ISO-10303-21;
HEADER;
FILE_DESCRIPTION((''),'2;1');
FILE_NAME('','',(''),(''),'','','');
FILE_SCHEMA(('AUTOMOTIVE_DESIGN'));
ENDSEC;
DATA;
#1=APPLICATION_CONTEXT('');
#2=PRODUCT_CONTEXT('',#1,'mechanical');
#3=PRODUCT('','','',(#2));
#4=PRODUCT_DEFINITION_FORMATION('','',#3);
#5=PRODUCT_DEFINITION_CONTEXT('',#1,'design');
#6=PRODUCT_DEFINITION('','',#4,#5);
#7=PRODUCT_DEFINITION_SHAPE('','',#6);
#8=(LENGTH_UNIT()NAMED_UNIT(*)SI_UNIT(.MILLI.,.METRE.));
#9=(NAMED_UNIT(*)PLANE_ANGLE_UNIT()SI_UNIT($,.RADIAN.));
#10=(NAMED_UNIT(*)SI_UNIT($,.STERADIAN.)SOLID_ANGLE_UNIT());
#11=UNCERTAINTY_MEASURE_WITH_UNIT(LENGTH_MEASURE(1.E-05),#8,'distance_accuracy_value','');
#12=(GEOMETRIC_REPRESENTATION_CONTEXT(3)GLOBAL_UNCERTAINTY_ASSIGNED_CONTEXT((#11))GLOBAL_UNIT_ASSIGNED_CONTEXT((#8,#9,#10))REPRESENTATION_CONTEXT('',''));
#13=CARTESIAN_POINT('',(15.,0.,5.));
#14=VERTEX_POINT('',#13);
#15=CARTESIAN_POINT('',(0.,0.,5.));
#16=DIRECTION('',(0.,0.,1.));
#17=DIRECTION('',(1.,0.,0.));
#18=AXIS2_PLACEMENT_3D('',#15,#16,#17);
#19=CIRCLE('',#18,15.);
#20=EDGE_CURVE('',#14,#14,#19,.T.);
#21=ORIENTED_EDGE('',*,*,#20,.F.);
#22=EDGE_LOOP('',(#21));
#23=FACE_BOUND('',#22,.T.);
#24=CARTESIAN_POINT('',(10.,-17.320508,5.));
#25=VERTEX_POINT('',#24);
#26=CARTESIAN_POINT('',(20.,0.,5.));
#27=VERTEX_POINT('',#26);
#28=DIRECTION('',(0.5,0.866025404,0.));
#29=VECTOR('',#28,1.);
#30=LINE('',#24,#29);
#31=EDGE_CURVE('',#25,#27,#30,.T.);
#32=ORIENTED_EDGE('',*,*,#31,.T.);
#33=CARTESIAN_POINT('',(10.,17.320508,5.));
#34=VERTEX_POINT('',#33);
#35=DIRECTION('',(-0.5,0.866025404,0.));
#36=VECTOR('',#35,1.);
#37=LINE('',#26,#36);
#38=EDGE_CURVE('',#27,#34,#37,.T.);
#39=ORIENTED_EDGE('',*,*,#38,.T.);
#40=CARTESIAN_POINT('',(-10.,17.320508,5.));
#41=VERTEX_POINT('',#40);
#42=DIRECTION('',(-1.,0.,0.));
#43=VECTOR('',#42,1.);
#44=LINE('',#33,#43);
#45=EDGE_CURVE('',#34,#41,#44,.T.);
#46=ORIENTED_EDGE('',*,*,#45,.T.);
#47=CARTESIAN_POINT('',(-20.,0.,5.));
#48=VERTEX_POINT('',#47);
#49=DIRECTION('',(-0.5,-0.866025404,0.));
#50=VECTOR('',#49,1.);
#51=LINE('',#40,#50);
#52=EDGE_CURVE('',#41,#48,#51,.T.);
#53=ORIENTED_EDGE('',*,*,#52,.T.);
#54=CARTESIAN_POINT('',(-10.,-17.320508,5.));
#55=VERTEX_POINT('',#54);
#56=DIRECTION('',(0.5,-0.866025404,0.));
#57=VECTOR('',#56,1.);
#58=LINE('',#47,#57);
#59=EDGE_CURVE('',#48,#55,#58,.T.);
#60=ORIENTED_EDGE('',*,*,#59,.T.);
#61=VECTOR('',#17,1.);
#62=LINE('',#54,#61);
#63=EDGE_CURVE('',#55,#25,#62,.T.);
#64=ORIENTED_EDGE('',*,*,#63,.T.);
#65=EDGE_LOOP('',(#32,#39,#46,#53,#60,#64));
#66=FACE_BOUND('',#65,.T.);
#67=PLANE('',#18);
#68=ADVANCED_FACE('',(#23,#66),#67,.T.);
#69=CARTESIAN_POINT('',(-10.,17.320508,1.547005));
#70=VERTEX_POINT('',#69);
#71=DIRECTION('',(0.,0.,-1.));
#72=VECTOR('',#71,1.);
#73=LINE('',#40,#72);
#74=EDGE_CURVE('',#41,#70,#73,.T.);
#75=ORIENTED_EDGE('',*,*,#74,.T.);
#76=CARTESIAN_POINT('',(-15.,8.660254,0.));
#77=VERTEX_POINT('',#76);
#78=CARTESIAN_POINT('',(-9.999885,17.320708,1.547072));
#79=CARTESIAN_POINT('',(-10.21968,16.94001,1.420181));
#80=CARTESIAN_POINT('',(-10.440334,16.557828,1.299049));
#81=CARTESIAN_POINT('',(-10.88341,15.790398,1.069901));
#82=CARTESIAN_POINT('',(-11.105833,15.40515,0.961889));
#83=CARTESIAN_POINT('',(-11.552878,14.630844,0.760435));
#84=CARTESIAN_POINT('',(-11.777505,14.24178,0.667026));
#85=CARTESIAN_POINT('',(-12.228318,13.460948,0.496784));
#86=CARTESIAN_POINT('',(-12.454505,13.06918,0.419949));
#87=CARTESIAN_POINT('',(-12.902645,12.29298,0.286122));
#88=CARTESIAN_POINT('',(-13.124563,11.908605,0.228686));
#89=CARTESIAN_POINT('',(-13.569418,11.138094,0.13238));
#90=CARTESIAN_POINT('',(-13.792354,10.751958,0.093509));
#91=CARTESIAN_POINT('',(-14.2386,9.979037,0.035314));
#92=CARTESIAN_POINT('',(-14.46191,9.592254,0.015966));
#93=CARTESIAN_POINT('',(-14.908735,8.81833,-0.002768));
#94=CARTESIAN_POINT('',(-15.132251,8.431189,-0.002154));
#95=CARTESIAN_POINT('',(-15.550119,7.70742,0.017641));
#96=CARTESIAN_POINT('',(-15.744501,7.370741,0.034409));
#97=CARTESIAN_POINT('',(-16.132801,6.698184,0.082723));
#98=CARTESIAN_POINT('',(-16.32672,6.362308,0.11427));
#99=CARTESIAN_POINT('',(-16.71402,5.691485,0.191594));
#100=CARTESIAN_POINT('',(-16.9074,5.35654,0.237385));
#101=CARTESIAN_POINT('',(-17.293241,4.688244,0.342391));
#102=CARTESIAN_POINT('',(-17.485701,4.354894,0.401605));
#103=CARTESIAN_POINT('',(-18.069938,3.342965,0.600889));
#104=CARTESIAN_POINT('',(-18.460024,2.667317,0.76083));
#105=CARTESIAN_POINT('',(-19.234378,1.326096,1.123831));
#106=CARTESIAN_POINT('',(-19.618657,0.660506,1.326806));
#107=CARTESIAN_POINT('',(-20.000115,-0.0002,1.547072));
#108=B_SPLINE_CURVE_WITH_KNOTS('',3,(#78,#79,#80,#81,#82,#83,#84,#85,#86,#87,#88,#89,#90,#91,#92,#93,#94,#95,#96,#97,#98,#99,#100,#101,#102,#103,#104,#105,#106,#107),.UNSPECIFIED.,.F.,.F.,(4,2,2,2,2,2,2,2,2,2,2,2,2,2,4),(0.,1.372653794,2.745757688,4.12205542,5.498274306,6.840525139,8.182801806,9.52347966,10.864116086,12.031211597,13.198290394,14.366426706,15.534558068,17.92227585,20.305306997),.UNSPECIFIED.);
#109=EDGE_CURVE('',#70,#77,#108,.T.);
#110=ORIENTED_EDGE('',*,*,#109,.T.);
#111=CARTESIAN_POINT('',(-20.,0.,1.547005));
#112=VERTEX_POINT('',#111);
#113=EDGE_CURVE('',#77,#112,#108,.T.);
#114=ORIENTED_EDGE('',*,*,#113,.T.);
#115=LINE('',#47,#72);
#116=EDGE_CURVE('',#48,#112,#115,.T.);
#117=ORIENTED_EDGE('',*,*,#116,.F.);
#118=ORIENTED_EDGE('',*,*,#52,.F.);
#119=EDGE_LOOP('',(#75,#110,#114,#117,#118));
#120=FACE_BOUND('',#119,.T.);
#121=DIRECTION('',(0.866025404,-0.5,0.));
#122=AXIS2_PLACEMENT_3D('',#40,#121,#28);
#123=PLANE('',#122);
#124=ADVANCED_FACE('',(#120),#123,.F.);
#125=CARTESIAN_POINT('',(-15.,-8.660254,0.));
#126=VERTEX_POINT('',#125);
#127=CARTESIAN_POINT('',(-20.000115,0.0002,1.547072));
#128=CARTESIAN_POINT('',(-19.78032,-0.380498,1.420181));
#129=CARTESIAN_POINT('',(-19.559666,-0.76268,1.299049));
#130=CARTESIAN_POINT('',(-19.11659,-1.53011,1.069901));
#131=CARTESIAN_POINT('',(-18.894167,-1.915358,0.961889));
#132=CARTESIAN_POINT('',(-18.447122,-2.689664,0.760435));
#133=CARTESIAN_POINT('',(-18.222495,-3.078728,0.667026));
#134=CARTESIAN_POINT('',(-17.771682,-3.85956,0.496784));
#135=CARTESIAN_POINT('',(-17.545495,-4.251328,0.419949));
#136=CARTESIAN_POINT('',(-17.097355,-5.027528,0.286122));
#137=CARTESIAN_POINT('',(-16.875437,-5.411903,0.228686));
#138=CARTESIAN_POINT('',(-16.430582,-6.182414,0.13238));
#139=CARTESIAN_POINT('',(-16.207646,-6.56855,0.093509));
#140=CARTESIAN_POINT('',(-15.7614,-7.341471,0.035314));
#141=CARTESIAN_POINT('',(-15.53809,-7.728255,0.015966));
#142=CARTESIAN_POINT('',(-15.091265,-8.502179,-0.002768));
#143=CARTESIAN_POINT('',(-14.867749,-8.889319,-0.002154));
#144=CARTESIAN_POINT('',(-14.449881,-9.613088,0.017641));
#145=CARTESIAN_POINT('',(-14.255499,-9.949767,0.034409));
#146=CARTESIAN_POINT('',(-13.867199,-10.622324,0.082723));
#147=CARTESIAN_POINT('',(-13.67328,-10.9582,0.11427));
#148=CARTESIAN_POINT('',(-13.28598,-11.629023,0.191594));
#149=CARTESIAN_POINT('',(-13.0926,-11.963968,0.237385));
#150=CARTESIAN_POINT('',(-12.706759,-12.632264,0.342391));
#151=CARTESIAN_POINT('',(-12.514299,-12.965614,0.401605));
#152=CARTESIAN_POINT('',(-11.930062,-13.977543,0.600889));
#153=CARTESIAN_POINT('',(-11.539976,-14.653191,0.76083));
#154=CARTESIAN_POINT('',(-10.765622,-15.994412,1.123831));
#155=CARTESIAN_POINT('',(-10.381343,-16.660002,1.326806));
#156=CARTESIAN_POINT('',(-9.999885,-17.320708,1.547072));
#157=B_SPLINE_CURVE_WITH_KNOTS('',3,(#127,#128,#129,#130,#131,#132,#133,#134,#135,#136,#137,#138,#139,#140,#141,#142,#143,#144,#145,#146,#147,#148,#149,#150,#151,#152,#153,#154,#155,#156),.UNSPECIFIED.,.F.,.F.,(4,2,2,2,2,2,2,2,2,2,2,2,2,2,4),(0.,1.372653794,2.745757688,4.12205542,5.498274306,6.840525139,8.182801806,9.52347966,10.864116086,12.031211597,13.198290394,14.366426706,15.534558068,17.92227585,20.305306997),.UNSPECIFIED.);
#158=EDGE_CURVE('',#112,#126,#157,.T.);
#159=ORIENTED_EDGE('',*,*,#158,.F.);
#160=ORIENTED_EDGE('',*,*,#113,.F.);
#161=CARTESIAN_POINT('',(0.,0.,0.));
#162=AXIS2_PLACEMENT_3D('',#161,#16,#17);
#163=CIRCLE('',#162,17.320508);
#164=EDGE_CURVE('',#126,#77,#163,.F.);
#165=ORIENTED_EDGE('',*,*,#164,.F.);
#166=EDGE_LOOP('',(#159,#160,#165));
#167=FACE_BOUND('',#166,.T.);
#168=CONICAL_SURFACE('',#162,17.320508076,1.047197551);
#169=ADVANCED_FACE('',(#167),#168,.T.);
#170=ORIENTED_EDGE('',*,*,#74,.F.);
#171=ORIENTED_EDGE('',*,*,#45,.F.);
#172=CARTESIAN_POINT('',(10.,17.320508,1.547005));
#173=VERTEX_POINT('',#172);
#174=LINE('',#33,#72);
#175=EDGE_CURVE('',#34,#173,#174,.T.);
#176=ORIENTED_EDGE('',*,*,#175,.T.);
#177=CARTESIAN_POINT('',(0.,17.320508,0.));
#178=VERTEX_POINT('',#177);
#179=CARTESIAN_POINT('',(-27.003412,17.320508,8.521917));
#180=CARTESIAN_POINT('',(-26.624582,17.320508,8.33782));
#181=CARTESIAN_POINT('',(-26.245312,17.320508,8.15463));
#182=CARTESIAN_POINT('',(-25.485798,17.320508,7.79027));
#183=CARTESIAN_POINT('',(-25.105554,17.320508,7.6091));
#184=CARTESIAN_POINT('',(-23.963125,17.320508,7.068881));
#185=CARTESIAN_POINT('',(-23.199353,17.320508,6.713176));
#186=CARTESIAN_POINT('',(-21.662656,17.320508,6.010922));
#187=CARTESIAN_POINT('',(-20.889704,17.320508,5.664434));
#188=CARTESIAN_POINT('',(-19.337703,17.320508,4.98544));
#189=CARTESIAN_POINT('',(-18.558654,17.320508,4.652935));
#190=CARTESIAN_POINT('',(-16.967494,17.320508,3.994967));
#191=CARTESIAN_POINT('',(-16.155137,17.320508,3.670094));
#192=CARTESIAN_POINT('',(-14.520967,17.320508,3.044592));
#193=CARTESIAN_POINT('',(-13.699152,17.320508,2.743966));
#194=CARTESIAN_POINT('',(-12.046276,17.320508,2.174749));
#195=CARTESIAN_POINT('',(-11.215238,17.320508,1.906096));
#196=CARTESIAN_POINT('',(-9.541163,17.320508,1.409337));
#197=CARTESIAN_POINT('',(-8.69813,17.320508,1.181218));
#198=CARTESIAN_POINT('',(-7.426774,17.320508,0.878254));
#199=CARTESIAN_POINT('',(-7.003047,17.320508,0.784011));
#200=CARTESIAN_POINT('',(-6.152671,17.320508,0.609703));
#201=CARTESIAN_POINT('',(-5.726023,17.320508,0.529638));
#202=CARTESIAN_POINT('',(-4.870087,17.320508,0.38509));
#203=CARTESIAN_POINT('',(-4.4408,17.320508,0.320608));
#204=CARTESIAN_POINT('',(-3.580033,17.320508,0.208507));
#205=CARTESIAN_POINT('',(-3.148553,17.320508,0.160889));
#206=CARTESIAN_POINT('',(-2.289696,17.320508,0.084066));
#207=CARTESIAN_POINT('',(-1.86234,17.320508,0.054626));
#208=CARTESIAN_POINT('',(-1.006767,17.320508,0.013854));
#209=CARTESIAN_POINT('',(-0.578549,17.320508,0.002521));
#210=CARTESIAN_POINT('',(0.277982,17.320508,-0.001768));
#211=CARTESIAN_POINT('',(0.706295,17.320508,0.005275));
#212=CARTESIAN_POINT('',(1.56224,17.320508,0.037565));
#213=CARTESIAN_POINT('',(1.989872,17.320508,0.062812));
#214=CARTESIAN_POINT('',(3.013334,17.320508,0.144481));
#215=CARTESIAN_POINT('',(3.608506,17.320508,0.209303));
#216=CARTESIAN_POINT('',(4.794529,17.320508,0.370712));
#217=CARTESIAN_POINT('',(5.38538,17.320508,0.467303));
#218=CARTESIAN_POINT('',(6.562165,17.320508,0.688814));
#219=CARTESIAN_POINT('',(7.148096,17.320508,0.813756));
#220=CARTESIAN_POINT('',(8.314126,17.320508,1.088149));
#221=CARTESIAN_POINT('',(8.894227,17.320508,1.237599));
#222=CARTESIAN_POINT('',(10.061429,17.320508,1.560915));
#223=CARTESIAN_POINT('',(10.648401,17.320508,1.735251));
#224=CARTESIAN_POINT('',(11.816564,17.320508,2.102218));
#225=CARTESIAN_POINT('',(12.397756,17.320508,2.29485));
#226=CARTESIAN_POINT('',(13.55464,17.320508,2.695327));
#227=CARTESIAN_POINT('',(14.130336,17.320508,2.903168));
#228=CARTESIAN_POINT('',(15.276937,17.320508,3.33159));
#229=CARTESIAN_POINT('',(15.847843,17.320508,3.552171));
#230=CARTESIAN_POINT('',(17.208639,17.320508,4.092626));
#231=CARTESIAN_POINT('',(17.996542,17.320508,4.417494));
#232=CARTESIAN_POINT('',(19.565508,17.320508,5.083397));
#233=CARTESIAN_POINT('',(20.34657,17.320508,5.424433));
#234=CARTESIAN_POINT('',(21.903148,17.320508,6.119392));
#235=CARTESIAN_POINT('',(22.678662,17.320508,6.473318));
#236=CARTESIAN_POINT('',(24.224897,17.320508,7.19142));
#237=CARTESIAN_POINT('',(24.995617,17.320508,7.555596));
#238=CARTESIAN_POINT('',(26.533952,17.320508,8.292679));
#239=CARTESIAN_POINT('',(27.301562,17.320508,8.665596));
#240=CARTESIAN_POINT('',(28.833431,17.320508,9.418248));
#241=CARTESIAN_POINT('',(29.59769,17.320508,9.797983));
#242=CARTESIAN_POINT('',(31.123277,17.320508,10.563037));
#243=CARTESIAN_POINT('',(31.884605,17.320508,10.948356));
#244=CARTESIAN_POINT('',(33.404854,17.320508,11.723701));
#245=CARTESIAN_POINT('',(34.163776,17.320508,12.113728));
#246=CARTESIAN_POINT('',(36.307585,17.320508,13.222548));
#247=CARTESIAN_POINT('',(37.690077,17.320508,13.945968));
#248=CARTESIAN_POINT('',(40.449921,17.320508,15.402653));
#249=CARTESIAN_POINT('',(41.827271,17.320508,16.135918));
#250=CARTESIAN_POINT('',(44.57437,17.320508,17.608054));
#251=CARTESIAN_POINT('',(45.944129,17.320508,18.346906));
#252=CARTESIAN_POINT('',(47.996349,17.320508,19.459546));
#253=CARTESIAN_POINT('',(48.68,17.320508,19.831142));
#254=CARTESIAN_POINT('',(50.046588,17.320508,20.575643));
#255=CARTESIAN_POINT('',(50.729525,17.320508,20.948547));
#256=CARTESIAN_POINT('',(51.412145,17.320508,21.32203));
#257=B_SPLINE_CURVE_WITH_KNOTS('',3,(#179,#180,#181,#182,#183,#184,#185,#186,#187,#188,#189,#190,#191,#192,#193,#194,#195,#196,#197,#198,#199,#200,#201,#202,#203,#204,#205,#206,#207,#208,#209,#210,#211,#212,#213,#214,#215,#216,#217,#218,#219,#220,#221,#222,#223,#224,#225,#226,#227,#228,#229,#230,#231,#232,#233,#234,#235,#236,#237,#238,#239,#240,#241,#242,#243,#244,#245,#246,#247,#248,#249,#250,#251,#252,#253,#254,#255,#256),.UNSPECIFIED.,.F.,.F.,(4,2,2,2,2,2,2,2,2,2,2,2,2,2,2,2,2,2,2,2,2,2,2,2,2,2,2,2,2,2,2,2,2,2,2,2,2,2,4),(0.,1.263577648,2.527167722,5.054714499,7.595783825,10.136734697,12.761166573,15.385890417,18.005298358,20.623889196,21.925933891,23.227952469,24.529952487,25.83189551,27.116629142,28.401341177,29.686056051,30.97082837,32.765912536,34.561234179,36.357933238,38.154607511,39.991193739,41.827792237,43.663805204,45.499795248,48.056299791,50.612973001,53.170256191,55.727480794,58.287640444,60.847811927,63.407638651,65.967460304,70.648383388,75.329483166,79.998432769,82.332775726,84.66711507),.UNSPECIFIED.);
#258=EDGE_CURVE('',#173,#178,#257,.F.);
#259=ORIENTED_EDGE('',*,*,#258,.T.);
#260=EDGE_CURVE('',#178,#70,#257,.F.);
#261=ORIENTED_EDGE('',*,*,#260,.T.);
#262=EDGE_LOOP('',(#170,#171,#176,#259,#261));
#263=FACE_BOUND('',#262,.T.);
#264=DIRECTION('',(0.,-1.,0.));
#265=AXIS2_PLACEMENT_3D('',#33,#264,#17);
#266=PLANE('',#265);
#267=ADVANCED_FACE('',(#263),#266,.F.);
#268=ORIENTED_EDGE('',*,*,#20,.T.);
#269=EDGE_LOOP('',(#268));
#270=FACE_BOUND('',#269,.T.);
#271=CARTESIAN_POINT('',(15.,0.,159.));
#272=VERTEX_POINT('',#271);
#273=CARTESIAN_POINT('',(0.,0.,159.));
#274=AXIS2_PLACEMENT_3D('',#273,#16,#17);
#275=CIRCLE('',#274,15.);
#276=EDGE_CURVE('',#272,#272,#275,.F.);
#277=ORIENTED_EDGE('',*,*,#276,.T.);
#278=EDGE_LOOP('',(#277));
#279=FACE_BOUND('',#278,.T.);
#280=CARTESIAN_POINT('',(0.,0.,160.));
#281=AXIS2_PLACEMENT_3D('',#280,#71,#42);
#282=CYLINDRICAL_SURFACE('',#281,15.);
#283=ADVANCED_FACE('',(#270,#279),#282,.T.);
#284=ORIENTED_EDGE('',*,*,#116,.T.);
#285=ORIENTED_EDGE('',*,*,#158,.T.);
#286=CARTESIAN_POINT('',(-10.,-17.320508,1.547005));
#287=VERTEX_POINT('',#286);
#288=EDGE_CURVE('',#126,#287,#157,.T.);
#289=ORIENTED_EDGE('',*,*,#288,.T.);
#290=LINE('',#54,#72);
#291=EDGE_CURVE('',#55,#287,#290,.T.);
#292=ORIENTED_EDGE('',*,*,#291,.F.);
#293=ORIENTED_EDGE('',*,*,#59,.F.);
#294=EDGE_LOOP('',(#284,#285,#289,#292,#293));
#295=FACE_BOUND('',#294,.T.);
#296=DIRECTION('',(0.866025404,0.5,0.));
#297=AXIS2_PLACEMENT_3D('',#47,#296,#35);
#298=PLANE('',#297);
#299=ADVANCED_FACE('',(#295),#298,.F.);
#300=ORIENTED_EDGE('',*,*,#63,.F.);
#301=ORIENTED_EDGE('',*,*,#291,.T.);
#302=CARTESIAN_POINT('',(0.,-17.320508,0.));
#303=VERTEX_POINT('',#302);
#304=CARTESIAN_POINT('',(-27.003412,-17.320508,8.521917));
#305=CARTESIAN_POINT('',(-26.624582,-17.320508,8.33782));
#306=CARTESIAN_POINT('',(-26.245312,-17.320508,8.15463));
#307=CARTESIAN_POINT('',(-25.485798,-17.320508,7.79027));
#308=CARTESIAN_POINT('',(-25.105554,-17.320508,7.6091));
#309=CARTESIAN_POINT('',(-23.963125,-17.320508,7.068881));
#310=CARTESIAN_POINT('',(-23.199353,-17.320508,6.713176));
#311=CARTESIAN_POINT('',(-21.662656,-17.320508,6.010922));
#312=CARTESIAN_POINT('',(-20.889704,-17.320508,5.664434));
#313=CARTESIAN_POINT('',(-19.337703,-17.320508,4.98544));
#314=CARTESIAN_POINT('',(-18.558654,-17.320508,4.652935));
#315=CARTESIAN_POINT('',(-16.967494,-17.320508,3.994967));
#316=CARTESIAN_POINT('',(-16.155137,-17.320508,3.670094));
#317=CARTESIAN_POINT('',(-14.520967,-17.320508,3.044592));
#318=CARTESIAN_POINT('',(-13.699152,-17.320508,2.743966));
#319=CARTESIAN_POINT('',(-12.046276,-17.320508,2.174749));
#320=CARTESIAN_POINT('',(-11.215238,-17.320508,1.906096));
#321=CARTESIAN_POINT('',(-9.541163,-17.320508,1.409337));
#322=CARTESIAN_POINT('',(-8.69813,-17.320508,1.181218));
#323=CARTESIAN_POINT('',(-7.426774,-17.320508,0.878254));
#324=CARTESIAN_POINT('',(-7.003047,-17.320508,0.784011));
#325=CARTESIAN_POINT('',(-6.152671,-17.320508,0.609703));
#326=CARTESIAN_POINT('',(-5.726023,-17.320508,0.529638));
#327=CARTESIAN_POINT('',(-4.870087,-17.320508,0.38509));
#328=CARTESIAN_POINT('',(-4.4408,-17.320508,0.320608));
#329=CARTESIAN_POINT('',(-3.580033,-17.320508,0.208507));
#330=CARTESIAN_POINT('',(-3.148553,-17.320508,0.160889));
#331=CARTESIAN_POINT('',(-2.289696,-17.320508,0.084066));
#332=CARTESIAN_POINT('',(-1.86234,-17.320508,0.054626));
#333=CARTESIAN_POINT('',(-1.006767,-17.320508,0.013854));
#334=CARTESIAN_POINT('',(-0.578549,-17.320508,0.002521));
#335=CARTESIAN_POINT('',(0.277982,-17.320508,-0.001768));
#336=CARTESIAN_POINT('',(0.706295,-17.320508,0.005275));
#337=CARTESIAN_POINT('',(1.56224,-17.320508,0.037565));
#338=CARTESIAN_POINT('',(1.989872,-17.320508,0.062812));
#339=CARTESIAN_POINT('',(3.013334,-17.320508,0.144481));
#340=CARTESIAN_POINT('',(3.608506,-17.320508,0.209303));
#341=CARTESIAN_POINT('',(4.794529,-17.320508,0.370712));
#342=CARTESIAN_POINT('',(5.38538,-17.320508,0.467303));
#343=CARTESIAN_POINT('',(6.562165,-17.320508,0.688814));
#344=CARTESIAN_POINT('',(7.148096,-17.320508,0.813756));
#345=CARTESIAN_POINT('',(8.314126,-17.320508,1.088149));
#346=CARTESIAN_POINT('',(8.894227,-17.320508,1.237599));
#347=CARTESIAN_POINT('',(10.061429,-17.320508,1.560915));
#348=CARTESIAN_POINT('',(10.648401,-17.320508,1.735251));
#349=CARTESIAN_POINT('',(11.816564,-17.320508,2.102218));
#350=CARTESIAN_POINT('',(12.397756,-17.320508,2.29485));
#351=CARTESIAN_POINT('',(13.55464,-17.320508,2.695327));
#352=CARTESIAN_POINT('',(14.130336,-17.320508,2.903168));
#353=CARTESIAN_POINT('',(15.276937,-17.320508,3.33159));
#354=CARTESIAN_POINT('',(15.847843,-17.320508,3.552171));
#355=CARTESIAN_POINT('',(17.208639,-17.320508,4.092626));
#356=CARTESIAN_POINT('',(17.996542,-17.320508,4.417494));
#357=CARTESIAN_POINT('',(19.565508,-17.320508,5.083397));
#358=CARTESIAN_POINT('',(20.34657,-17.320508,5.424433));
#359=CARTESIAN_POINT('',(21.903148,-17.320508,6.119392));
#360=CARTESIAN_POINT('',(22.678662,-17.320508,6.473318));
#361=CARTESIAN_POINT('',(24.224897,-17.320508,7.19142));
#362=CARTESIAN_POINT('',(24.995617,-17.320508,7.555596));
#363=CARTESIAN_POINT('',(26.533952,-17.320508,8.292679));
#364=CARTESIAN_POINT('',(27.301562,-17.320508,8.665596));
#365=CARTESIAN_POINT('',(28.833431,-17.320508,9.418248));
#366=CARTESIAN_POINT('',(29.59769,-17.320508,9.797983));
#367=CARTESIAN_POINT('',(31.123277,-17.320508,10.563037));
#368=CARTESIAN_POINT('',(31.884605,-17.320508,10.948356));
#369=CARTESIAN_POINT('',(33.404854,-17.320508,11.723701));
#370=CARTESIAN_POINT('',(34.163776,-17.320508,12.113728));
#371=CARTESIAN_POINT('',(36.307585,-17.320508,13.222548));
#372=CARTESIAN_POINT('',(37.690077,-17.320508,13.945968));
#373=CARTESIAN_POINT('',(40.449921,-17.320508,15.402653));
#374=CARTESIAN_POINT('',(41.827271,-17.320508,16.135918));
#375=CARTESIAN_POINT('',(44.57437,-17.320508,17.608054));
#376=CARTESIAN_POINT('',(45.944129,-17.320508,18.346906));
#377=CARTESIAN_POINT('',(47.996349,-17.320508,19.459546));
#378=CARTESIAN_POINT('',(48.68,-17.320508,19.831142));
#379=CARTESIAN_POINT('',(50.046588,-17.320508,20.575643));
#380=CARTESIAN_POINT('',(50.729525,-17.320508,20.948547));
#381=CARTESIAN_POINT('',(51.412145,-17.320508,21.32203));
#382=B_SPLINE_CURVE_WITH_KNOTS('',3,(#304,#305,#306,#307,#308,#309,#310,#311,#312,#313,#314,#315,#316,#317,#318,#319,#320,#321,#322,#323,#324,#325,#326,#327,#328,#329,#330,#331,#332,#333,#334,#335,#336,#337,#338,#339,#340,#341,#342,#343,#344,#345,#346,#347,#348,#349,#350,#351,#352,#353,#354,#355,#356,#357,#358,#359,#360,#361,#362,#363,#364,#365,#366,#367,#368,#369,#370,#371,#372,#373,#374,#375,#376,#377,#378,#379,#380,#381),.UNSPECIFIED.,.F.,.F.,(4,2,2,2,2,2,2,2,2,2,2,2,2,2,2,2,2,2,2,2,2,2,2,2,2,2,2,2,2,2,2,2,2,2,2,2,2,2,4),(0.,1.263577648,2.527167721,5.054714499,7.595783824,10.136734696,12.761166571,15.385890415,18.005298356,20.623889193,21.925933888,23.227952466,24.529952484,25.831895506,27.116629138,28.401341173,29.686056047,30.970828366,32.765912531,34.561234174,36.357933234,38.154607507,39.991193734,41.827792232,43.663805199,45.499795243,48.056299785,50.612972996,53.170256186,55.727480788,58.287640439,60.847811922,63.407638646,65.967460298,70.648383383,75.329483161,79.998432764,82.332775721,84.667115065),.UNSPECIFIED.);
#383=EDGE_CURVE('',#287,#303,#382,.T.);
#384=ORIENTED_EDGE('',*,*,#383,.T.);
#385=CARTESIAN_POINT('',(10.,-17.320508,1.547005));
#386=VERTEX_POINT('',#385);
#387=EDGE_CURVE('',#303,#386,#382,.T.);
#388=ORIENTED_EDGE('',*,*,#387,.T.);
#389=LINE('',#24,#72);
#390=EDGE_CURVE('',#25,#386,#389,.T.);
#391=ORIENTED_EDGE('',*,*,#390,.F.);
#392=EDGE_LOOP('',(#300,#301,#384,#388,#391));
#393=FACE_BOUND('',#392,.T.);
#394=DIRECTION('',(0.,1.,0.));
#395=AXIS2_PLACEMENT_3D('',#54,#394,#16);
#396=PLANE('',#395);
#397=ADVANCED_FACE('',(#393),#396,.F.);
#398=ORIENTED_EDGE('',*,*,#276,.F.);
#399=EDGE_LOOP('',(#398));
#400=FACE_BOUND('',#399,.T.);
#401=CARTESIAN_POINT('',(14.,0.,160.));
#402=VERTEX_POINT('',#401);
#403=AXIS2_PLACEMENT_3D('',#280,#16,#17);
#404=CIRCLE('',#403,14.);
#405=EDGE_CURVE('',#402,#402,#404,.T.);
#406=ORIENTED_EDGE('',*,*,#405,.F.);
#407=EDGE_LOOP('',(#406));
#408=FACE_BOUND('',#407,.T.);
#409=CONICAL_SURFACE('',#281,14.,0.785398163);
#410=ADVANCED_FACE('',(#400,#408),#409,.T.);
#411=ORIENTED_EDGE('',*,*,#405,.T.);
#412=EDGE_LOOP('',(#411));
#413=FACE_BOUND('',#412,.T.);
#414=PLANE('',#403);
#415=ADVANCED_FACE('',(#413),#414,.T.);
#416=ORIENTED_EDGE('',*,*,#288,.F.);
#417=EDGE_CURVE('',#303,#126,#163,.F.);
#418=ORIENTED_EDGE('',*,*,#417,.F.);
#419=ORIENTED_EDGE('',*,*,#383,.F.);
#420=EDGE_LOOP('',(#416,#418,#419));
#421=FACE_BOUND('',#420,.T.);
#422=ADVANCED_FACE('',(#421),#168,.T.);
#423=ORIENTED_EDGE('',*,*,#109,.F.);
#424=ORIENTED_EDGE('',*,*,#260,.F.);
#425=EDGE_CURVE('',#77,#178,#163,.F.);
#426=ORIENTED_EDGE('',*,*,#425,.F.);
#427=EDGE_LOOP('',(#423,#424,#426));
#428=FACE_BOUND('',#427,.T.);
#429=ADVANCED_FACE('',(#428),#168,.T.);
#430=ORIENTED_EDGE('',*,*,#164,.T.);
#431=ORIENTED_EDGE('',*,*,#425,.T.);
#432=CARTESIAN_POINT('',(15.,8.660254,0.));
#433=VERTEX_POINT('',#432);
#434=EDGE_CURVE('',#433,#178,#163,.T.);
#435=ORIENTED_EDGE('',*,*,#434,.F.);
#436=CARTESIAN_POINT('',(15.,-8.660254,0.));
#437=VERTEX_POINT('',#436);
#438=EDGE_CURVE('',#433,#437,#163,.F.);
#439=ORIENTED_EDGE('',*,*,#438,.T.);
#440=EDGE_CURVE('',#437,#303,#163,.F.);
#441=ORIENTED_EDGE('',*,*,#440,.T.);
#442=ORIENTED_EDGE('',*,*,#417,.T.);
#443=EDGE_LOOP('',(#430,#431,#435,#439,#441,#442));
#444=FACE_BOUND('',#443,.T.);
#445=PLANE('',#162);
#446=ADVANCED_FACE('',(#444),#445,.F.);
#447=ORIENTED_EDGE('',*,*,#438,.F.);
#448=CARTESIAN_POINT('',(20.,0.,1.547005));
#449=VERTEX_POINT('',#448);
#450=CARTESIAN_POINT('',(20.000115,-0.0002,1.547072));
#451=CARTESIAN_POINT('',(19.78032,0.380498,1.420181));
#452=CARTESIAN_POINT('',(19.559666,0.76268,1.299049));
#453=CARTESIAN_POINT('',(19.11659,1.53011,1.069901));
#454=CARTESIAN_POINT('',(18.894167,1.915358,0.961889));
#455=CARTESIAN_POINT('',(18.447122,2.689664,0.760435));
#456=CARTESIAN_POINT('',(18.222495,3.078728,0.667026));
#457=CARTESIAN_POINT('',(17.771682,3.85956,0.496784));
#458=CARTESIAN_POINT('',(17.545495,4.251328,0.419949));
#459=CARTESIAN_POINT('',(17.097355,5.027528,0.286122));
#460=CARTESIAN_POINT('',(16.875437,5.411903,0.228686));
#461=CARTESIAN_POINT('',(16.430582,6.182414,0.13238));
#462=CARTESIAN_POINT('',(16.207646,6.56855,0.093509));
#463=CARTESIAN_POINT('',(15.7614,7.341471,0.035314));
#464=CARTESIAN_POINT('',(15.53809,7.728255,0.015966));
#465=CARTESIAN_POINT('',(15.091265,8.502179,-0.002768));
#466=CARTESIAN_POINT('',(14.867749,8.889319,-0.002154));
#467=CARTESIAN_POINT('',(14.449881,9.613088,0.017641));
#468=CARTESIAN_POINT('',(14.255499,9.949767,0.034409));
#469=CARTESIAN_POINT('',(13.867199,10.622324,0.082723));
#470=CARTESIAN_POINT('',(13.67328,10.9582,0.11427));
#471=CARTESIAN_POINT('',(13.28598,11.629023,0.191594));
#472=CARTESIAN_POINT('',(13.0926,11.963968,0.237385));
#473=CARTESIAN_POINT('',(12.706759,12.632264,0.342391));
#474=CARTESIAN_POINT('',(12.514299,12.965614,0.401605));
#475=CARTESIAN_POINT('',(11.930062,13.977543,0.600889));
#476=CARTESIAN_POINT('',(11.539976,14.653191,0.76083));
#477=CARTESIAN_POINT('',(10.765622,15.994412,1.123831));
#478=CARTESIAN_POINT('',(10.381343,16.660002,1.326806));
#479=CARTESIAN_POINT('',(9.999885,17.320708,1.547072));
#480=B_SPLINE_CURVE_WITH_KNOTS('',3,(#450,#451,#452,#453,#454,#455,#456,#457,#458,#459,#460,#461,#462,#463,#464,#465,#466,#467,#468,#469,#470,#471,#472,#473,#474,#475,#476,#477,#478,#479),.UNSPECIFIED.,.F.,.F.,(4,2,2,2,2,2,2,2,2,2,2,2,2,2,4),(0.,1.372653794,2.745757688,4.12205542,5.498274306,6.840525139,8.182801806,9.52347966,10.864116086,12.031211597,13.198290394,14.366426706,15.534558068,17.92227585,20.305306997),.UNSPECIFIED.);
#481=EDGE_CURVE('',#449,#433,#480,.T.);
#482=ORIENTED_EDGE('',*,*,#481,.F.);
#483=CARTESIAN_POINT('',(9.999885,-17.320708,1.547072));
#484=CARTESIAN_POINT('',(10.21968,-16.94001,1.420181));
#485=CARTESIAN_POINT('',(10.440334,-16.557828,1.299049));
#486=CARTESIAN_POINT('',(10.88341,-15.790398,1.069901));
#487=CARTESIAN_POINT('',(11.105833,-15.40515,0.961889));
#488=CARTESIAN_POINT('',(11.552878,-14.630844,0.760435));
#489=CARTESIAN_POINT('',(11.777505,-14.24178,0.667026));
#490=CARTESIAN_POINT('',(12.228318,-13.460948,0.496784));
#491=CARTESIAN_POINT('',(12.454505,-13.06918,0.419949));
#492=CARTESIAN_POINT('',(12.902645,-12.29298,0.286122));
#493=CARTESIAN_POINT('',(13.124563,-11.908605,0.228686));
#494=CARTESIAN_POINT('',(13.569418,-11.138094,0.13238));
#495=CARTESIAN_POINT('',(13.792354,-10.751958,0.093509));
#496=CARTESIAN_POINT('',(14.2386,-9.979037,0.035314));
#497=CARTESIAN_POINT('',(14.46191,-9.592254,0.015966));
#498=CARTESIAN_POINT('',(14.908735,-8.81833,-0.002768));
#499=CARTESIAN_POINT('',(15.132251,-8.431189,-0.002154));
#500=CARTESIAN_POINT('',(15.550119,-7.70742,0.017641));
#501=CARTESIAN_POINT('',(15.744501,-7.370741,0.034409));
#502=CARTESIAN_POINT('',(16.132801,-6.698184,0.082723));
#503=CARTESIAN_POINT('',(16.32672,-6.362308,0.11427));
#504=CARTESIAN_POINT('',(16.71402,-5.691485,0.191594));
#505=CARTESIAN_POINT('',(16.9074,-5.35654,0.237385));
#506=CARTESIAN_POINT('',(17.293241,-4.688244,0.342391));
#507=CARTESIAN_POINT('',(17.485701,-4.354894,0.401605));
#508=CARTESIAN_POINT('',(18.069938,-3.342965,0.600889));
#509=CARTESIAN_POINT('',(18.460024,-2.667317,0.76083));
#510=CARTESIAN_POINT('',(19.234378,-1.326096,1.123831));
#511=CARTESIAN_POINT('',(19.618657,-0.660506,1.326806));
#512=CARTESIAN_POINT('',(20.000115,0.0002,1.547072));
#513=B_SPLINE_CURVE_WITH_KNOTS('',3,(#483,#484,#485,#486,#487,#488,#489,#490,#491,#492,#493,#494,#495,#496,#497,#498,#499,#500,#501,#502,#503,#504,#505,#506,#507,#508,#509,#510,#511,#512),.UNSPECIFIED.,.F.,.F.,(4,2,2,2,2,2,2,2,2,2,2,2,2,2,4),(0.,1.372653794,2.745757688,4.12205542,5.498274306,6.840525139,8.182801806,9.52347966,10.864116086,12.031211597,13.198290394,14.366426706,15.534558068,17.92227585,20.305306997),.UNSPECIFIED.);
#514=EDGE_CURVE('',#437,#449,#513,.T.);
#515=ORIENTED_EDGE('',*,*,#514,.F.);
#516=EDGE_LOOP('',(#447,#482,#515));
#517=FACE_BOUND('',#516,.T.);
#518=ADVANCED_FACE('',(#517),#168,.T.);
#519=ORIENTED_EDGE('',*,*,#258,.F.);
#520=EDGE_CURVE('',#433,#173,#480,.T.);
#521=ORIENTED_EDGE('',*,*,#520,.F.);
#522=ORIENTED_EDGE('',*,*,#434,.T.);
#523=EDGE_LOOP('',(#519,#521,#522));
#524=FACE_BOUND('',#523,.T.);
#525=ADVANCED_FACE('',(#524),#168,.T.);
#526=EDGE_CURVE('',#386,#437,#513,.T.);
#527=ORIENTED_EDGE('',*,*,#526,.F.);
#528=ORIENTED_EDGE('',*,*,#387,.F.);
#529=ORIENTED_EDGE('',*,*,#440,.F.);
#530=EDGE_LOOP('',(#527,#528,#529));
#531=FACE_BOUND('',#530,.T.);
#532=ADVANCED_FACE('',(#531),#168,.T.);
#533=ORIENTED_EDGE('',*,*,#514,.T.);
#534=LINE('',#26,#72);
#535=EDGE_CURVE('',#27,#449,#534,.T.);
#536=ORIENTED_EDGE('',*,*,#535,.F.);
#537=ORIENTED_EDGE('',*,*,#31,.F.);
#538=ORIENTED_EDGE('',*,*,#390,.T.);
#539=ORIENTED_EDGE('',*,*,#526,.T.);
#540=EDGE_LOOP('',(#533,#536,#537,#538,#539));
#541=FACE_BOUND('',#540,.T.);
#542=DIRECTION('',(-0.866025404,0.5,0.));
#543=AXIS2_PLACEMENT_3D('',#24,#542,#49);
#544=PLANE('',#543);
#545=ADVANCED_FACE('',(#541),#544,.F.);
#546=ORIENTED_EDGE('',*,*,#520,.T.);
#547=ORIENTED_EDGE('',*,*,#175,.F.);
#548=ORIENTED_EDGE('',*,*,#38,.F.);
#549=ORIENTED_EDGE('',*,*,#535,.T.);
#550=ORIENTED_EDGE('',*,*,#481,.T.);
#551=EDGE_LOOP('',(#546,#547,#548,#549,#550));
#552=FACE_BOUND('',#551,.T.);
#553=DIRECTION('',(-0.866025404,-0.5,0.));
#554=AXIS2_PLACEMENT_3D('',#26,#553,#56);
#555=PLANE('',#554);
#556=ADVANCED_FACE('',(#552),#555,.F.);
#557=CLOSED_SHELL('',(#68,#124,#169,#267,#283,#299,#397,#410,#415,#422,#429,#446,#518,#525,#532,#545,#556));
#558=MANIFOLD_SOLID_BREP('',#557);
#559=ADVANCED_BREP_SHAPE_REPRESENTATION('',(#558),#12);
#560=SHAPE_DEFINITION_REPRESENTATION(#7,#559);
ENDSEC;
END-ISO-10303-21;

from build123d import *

# Parameters (mm, degrees)
DODANIE_WYCI_GNI_CIE1_DEPTH = 5
SZKIC2_OUTSIDE_W            = 69.95
SZKIC2_OUTSIDE_H            = 64.592
SZKIC2_OUTSIDE_R            = 17.320508076
WYTNIJ_WYCI_GNI_CIE1_DEPTH  = 5
WYTNIJ_WYCI_GNI_CIE1_DRAFT  = 60
SZKIC3_R                    = 15
DODANIE_WYCI_GNI_CIE2_DEPTH = 155
SFAZOWANIE1_SIZE            = 1


with BuildPart() as part:
    # Szkic1 → Dodanie-wyciągnięcie1 (new body)
    with BuildSketch(Plane.XY):
        Polygon((10, 17.320508076), (-10, 17.320508076), (-20, 0), (-10, -17.320508076), (10, -17.320508076), (20, 0), align=None)
    extrude(amount=DODANIE_WYCI_GNI_CIE1_DEPTH)


with BuildPart() as wytnij_wyci_gni_cie1_tool:
    # Szkic2 outside → Wytnij-wyciągnięcie1 (with draft: the straight prism first)
    with BuildSketch(Plane.XY):
        Rectangle(SZKIC2_OUTSIDE_W, SZKIC2_OUTSIDE_H)
        Circle(SZKIC2_OUTSIDE_R, mode=Mode.SUBTRACT)
    extrude(amount=WYTNIJ_WYCI_GNI_CIE1_DEPTH)
    # Wytnij-wyciągnięcie1: the draft: its side faces are tilted about the plane it starts from
    wytnij_wyci_gni_cie1_sides = [wytnij_wyci_gni_cie1_tool.faces().sort_by_distance(p)[0] for p in [
        (0, -32.296, 2.5),
        (34.975, 0, 2.5),
        (0, 32.296, 2.5),
        (-34.975, 0, 2.5),
        (-17.320508076, 0, 2.5),
    ]]
    draft(wytnij_wyci_gni_cie1_sides, Plane.XY, WYTNIJ_WYCI_GNI_CIE1_DRAFT)


with BuildPart() as part_1:
    add(part.part)

    # Wytnij-wyciągnięcie1: cut by wytnij_wyci_gni_cie1_tool
    add(wytnij_wyci_gni_cie1_tool.part, mode=Mode.SUBTRACT)

    # Szkic3 → Dodanie-wyciągnięcie2 (add)
    with BuildSketch(Plane.XY.offset(5)):
        Circle(SZKIC3_R)
    extrude(amount=DODANIE_WYCI_GNI_CIE2_DEPTH)

    # Sfazowanie1
    sfazowanie1_edges = [part_1.edges().sort_by_distance(p)[0] for p in [
        (-15, 0, 160),
    ]]
    chamfer(sfazowanie1_edges, length=SFAZOWANIE1_SIZE)


solid = part_1.part
